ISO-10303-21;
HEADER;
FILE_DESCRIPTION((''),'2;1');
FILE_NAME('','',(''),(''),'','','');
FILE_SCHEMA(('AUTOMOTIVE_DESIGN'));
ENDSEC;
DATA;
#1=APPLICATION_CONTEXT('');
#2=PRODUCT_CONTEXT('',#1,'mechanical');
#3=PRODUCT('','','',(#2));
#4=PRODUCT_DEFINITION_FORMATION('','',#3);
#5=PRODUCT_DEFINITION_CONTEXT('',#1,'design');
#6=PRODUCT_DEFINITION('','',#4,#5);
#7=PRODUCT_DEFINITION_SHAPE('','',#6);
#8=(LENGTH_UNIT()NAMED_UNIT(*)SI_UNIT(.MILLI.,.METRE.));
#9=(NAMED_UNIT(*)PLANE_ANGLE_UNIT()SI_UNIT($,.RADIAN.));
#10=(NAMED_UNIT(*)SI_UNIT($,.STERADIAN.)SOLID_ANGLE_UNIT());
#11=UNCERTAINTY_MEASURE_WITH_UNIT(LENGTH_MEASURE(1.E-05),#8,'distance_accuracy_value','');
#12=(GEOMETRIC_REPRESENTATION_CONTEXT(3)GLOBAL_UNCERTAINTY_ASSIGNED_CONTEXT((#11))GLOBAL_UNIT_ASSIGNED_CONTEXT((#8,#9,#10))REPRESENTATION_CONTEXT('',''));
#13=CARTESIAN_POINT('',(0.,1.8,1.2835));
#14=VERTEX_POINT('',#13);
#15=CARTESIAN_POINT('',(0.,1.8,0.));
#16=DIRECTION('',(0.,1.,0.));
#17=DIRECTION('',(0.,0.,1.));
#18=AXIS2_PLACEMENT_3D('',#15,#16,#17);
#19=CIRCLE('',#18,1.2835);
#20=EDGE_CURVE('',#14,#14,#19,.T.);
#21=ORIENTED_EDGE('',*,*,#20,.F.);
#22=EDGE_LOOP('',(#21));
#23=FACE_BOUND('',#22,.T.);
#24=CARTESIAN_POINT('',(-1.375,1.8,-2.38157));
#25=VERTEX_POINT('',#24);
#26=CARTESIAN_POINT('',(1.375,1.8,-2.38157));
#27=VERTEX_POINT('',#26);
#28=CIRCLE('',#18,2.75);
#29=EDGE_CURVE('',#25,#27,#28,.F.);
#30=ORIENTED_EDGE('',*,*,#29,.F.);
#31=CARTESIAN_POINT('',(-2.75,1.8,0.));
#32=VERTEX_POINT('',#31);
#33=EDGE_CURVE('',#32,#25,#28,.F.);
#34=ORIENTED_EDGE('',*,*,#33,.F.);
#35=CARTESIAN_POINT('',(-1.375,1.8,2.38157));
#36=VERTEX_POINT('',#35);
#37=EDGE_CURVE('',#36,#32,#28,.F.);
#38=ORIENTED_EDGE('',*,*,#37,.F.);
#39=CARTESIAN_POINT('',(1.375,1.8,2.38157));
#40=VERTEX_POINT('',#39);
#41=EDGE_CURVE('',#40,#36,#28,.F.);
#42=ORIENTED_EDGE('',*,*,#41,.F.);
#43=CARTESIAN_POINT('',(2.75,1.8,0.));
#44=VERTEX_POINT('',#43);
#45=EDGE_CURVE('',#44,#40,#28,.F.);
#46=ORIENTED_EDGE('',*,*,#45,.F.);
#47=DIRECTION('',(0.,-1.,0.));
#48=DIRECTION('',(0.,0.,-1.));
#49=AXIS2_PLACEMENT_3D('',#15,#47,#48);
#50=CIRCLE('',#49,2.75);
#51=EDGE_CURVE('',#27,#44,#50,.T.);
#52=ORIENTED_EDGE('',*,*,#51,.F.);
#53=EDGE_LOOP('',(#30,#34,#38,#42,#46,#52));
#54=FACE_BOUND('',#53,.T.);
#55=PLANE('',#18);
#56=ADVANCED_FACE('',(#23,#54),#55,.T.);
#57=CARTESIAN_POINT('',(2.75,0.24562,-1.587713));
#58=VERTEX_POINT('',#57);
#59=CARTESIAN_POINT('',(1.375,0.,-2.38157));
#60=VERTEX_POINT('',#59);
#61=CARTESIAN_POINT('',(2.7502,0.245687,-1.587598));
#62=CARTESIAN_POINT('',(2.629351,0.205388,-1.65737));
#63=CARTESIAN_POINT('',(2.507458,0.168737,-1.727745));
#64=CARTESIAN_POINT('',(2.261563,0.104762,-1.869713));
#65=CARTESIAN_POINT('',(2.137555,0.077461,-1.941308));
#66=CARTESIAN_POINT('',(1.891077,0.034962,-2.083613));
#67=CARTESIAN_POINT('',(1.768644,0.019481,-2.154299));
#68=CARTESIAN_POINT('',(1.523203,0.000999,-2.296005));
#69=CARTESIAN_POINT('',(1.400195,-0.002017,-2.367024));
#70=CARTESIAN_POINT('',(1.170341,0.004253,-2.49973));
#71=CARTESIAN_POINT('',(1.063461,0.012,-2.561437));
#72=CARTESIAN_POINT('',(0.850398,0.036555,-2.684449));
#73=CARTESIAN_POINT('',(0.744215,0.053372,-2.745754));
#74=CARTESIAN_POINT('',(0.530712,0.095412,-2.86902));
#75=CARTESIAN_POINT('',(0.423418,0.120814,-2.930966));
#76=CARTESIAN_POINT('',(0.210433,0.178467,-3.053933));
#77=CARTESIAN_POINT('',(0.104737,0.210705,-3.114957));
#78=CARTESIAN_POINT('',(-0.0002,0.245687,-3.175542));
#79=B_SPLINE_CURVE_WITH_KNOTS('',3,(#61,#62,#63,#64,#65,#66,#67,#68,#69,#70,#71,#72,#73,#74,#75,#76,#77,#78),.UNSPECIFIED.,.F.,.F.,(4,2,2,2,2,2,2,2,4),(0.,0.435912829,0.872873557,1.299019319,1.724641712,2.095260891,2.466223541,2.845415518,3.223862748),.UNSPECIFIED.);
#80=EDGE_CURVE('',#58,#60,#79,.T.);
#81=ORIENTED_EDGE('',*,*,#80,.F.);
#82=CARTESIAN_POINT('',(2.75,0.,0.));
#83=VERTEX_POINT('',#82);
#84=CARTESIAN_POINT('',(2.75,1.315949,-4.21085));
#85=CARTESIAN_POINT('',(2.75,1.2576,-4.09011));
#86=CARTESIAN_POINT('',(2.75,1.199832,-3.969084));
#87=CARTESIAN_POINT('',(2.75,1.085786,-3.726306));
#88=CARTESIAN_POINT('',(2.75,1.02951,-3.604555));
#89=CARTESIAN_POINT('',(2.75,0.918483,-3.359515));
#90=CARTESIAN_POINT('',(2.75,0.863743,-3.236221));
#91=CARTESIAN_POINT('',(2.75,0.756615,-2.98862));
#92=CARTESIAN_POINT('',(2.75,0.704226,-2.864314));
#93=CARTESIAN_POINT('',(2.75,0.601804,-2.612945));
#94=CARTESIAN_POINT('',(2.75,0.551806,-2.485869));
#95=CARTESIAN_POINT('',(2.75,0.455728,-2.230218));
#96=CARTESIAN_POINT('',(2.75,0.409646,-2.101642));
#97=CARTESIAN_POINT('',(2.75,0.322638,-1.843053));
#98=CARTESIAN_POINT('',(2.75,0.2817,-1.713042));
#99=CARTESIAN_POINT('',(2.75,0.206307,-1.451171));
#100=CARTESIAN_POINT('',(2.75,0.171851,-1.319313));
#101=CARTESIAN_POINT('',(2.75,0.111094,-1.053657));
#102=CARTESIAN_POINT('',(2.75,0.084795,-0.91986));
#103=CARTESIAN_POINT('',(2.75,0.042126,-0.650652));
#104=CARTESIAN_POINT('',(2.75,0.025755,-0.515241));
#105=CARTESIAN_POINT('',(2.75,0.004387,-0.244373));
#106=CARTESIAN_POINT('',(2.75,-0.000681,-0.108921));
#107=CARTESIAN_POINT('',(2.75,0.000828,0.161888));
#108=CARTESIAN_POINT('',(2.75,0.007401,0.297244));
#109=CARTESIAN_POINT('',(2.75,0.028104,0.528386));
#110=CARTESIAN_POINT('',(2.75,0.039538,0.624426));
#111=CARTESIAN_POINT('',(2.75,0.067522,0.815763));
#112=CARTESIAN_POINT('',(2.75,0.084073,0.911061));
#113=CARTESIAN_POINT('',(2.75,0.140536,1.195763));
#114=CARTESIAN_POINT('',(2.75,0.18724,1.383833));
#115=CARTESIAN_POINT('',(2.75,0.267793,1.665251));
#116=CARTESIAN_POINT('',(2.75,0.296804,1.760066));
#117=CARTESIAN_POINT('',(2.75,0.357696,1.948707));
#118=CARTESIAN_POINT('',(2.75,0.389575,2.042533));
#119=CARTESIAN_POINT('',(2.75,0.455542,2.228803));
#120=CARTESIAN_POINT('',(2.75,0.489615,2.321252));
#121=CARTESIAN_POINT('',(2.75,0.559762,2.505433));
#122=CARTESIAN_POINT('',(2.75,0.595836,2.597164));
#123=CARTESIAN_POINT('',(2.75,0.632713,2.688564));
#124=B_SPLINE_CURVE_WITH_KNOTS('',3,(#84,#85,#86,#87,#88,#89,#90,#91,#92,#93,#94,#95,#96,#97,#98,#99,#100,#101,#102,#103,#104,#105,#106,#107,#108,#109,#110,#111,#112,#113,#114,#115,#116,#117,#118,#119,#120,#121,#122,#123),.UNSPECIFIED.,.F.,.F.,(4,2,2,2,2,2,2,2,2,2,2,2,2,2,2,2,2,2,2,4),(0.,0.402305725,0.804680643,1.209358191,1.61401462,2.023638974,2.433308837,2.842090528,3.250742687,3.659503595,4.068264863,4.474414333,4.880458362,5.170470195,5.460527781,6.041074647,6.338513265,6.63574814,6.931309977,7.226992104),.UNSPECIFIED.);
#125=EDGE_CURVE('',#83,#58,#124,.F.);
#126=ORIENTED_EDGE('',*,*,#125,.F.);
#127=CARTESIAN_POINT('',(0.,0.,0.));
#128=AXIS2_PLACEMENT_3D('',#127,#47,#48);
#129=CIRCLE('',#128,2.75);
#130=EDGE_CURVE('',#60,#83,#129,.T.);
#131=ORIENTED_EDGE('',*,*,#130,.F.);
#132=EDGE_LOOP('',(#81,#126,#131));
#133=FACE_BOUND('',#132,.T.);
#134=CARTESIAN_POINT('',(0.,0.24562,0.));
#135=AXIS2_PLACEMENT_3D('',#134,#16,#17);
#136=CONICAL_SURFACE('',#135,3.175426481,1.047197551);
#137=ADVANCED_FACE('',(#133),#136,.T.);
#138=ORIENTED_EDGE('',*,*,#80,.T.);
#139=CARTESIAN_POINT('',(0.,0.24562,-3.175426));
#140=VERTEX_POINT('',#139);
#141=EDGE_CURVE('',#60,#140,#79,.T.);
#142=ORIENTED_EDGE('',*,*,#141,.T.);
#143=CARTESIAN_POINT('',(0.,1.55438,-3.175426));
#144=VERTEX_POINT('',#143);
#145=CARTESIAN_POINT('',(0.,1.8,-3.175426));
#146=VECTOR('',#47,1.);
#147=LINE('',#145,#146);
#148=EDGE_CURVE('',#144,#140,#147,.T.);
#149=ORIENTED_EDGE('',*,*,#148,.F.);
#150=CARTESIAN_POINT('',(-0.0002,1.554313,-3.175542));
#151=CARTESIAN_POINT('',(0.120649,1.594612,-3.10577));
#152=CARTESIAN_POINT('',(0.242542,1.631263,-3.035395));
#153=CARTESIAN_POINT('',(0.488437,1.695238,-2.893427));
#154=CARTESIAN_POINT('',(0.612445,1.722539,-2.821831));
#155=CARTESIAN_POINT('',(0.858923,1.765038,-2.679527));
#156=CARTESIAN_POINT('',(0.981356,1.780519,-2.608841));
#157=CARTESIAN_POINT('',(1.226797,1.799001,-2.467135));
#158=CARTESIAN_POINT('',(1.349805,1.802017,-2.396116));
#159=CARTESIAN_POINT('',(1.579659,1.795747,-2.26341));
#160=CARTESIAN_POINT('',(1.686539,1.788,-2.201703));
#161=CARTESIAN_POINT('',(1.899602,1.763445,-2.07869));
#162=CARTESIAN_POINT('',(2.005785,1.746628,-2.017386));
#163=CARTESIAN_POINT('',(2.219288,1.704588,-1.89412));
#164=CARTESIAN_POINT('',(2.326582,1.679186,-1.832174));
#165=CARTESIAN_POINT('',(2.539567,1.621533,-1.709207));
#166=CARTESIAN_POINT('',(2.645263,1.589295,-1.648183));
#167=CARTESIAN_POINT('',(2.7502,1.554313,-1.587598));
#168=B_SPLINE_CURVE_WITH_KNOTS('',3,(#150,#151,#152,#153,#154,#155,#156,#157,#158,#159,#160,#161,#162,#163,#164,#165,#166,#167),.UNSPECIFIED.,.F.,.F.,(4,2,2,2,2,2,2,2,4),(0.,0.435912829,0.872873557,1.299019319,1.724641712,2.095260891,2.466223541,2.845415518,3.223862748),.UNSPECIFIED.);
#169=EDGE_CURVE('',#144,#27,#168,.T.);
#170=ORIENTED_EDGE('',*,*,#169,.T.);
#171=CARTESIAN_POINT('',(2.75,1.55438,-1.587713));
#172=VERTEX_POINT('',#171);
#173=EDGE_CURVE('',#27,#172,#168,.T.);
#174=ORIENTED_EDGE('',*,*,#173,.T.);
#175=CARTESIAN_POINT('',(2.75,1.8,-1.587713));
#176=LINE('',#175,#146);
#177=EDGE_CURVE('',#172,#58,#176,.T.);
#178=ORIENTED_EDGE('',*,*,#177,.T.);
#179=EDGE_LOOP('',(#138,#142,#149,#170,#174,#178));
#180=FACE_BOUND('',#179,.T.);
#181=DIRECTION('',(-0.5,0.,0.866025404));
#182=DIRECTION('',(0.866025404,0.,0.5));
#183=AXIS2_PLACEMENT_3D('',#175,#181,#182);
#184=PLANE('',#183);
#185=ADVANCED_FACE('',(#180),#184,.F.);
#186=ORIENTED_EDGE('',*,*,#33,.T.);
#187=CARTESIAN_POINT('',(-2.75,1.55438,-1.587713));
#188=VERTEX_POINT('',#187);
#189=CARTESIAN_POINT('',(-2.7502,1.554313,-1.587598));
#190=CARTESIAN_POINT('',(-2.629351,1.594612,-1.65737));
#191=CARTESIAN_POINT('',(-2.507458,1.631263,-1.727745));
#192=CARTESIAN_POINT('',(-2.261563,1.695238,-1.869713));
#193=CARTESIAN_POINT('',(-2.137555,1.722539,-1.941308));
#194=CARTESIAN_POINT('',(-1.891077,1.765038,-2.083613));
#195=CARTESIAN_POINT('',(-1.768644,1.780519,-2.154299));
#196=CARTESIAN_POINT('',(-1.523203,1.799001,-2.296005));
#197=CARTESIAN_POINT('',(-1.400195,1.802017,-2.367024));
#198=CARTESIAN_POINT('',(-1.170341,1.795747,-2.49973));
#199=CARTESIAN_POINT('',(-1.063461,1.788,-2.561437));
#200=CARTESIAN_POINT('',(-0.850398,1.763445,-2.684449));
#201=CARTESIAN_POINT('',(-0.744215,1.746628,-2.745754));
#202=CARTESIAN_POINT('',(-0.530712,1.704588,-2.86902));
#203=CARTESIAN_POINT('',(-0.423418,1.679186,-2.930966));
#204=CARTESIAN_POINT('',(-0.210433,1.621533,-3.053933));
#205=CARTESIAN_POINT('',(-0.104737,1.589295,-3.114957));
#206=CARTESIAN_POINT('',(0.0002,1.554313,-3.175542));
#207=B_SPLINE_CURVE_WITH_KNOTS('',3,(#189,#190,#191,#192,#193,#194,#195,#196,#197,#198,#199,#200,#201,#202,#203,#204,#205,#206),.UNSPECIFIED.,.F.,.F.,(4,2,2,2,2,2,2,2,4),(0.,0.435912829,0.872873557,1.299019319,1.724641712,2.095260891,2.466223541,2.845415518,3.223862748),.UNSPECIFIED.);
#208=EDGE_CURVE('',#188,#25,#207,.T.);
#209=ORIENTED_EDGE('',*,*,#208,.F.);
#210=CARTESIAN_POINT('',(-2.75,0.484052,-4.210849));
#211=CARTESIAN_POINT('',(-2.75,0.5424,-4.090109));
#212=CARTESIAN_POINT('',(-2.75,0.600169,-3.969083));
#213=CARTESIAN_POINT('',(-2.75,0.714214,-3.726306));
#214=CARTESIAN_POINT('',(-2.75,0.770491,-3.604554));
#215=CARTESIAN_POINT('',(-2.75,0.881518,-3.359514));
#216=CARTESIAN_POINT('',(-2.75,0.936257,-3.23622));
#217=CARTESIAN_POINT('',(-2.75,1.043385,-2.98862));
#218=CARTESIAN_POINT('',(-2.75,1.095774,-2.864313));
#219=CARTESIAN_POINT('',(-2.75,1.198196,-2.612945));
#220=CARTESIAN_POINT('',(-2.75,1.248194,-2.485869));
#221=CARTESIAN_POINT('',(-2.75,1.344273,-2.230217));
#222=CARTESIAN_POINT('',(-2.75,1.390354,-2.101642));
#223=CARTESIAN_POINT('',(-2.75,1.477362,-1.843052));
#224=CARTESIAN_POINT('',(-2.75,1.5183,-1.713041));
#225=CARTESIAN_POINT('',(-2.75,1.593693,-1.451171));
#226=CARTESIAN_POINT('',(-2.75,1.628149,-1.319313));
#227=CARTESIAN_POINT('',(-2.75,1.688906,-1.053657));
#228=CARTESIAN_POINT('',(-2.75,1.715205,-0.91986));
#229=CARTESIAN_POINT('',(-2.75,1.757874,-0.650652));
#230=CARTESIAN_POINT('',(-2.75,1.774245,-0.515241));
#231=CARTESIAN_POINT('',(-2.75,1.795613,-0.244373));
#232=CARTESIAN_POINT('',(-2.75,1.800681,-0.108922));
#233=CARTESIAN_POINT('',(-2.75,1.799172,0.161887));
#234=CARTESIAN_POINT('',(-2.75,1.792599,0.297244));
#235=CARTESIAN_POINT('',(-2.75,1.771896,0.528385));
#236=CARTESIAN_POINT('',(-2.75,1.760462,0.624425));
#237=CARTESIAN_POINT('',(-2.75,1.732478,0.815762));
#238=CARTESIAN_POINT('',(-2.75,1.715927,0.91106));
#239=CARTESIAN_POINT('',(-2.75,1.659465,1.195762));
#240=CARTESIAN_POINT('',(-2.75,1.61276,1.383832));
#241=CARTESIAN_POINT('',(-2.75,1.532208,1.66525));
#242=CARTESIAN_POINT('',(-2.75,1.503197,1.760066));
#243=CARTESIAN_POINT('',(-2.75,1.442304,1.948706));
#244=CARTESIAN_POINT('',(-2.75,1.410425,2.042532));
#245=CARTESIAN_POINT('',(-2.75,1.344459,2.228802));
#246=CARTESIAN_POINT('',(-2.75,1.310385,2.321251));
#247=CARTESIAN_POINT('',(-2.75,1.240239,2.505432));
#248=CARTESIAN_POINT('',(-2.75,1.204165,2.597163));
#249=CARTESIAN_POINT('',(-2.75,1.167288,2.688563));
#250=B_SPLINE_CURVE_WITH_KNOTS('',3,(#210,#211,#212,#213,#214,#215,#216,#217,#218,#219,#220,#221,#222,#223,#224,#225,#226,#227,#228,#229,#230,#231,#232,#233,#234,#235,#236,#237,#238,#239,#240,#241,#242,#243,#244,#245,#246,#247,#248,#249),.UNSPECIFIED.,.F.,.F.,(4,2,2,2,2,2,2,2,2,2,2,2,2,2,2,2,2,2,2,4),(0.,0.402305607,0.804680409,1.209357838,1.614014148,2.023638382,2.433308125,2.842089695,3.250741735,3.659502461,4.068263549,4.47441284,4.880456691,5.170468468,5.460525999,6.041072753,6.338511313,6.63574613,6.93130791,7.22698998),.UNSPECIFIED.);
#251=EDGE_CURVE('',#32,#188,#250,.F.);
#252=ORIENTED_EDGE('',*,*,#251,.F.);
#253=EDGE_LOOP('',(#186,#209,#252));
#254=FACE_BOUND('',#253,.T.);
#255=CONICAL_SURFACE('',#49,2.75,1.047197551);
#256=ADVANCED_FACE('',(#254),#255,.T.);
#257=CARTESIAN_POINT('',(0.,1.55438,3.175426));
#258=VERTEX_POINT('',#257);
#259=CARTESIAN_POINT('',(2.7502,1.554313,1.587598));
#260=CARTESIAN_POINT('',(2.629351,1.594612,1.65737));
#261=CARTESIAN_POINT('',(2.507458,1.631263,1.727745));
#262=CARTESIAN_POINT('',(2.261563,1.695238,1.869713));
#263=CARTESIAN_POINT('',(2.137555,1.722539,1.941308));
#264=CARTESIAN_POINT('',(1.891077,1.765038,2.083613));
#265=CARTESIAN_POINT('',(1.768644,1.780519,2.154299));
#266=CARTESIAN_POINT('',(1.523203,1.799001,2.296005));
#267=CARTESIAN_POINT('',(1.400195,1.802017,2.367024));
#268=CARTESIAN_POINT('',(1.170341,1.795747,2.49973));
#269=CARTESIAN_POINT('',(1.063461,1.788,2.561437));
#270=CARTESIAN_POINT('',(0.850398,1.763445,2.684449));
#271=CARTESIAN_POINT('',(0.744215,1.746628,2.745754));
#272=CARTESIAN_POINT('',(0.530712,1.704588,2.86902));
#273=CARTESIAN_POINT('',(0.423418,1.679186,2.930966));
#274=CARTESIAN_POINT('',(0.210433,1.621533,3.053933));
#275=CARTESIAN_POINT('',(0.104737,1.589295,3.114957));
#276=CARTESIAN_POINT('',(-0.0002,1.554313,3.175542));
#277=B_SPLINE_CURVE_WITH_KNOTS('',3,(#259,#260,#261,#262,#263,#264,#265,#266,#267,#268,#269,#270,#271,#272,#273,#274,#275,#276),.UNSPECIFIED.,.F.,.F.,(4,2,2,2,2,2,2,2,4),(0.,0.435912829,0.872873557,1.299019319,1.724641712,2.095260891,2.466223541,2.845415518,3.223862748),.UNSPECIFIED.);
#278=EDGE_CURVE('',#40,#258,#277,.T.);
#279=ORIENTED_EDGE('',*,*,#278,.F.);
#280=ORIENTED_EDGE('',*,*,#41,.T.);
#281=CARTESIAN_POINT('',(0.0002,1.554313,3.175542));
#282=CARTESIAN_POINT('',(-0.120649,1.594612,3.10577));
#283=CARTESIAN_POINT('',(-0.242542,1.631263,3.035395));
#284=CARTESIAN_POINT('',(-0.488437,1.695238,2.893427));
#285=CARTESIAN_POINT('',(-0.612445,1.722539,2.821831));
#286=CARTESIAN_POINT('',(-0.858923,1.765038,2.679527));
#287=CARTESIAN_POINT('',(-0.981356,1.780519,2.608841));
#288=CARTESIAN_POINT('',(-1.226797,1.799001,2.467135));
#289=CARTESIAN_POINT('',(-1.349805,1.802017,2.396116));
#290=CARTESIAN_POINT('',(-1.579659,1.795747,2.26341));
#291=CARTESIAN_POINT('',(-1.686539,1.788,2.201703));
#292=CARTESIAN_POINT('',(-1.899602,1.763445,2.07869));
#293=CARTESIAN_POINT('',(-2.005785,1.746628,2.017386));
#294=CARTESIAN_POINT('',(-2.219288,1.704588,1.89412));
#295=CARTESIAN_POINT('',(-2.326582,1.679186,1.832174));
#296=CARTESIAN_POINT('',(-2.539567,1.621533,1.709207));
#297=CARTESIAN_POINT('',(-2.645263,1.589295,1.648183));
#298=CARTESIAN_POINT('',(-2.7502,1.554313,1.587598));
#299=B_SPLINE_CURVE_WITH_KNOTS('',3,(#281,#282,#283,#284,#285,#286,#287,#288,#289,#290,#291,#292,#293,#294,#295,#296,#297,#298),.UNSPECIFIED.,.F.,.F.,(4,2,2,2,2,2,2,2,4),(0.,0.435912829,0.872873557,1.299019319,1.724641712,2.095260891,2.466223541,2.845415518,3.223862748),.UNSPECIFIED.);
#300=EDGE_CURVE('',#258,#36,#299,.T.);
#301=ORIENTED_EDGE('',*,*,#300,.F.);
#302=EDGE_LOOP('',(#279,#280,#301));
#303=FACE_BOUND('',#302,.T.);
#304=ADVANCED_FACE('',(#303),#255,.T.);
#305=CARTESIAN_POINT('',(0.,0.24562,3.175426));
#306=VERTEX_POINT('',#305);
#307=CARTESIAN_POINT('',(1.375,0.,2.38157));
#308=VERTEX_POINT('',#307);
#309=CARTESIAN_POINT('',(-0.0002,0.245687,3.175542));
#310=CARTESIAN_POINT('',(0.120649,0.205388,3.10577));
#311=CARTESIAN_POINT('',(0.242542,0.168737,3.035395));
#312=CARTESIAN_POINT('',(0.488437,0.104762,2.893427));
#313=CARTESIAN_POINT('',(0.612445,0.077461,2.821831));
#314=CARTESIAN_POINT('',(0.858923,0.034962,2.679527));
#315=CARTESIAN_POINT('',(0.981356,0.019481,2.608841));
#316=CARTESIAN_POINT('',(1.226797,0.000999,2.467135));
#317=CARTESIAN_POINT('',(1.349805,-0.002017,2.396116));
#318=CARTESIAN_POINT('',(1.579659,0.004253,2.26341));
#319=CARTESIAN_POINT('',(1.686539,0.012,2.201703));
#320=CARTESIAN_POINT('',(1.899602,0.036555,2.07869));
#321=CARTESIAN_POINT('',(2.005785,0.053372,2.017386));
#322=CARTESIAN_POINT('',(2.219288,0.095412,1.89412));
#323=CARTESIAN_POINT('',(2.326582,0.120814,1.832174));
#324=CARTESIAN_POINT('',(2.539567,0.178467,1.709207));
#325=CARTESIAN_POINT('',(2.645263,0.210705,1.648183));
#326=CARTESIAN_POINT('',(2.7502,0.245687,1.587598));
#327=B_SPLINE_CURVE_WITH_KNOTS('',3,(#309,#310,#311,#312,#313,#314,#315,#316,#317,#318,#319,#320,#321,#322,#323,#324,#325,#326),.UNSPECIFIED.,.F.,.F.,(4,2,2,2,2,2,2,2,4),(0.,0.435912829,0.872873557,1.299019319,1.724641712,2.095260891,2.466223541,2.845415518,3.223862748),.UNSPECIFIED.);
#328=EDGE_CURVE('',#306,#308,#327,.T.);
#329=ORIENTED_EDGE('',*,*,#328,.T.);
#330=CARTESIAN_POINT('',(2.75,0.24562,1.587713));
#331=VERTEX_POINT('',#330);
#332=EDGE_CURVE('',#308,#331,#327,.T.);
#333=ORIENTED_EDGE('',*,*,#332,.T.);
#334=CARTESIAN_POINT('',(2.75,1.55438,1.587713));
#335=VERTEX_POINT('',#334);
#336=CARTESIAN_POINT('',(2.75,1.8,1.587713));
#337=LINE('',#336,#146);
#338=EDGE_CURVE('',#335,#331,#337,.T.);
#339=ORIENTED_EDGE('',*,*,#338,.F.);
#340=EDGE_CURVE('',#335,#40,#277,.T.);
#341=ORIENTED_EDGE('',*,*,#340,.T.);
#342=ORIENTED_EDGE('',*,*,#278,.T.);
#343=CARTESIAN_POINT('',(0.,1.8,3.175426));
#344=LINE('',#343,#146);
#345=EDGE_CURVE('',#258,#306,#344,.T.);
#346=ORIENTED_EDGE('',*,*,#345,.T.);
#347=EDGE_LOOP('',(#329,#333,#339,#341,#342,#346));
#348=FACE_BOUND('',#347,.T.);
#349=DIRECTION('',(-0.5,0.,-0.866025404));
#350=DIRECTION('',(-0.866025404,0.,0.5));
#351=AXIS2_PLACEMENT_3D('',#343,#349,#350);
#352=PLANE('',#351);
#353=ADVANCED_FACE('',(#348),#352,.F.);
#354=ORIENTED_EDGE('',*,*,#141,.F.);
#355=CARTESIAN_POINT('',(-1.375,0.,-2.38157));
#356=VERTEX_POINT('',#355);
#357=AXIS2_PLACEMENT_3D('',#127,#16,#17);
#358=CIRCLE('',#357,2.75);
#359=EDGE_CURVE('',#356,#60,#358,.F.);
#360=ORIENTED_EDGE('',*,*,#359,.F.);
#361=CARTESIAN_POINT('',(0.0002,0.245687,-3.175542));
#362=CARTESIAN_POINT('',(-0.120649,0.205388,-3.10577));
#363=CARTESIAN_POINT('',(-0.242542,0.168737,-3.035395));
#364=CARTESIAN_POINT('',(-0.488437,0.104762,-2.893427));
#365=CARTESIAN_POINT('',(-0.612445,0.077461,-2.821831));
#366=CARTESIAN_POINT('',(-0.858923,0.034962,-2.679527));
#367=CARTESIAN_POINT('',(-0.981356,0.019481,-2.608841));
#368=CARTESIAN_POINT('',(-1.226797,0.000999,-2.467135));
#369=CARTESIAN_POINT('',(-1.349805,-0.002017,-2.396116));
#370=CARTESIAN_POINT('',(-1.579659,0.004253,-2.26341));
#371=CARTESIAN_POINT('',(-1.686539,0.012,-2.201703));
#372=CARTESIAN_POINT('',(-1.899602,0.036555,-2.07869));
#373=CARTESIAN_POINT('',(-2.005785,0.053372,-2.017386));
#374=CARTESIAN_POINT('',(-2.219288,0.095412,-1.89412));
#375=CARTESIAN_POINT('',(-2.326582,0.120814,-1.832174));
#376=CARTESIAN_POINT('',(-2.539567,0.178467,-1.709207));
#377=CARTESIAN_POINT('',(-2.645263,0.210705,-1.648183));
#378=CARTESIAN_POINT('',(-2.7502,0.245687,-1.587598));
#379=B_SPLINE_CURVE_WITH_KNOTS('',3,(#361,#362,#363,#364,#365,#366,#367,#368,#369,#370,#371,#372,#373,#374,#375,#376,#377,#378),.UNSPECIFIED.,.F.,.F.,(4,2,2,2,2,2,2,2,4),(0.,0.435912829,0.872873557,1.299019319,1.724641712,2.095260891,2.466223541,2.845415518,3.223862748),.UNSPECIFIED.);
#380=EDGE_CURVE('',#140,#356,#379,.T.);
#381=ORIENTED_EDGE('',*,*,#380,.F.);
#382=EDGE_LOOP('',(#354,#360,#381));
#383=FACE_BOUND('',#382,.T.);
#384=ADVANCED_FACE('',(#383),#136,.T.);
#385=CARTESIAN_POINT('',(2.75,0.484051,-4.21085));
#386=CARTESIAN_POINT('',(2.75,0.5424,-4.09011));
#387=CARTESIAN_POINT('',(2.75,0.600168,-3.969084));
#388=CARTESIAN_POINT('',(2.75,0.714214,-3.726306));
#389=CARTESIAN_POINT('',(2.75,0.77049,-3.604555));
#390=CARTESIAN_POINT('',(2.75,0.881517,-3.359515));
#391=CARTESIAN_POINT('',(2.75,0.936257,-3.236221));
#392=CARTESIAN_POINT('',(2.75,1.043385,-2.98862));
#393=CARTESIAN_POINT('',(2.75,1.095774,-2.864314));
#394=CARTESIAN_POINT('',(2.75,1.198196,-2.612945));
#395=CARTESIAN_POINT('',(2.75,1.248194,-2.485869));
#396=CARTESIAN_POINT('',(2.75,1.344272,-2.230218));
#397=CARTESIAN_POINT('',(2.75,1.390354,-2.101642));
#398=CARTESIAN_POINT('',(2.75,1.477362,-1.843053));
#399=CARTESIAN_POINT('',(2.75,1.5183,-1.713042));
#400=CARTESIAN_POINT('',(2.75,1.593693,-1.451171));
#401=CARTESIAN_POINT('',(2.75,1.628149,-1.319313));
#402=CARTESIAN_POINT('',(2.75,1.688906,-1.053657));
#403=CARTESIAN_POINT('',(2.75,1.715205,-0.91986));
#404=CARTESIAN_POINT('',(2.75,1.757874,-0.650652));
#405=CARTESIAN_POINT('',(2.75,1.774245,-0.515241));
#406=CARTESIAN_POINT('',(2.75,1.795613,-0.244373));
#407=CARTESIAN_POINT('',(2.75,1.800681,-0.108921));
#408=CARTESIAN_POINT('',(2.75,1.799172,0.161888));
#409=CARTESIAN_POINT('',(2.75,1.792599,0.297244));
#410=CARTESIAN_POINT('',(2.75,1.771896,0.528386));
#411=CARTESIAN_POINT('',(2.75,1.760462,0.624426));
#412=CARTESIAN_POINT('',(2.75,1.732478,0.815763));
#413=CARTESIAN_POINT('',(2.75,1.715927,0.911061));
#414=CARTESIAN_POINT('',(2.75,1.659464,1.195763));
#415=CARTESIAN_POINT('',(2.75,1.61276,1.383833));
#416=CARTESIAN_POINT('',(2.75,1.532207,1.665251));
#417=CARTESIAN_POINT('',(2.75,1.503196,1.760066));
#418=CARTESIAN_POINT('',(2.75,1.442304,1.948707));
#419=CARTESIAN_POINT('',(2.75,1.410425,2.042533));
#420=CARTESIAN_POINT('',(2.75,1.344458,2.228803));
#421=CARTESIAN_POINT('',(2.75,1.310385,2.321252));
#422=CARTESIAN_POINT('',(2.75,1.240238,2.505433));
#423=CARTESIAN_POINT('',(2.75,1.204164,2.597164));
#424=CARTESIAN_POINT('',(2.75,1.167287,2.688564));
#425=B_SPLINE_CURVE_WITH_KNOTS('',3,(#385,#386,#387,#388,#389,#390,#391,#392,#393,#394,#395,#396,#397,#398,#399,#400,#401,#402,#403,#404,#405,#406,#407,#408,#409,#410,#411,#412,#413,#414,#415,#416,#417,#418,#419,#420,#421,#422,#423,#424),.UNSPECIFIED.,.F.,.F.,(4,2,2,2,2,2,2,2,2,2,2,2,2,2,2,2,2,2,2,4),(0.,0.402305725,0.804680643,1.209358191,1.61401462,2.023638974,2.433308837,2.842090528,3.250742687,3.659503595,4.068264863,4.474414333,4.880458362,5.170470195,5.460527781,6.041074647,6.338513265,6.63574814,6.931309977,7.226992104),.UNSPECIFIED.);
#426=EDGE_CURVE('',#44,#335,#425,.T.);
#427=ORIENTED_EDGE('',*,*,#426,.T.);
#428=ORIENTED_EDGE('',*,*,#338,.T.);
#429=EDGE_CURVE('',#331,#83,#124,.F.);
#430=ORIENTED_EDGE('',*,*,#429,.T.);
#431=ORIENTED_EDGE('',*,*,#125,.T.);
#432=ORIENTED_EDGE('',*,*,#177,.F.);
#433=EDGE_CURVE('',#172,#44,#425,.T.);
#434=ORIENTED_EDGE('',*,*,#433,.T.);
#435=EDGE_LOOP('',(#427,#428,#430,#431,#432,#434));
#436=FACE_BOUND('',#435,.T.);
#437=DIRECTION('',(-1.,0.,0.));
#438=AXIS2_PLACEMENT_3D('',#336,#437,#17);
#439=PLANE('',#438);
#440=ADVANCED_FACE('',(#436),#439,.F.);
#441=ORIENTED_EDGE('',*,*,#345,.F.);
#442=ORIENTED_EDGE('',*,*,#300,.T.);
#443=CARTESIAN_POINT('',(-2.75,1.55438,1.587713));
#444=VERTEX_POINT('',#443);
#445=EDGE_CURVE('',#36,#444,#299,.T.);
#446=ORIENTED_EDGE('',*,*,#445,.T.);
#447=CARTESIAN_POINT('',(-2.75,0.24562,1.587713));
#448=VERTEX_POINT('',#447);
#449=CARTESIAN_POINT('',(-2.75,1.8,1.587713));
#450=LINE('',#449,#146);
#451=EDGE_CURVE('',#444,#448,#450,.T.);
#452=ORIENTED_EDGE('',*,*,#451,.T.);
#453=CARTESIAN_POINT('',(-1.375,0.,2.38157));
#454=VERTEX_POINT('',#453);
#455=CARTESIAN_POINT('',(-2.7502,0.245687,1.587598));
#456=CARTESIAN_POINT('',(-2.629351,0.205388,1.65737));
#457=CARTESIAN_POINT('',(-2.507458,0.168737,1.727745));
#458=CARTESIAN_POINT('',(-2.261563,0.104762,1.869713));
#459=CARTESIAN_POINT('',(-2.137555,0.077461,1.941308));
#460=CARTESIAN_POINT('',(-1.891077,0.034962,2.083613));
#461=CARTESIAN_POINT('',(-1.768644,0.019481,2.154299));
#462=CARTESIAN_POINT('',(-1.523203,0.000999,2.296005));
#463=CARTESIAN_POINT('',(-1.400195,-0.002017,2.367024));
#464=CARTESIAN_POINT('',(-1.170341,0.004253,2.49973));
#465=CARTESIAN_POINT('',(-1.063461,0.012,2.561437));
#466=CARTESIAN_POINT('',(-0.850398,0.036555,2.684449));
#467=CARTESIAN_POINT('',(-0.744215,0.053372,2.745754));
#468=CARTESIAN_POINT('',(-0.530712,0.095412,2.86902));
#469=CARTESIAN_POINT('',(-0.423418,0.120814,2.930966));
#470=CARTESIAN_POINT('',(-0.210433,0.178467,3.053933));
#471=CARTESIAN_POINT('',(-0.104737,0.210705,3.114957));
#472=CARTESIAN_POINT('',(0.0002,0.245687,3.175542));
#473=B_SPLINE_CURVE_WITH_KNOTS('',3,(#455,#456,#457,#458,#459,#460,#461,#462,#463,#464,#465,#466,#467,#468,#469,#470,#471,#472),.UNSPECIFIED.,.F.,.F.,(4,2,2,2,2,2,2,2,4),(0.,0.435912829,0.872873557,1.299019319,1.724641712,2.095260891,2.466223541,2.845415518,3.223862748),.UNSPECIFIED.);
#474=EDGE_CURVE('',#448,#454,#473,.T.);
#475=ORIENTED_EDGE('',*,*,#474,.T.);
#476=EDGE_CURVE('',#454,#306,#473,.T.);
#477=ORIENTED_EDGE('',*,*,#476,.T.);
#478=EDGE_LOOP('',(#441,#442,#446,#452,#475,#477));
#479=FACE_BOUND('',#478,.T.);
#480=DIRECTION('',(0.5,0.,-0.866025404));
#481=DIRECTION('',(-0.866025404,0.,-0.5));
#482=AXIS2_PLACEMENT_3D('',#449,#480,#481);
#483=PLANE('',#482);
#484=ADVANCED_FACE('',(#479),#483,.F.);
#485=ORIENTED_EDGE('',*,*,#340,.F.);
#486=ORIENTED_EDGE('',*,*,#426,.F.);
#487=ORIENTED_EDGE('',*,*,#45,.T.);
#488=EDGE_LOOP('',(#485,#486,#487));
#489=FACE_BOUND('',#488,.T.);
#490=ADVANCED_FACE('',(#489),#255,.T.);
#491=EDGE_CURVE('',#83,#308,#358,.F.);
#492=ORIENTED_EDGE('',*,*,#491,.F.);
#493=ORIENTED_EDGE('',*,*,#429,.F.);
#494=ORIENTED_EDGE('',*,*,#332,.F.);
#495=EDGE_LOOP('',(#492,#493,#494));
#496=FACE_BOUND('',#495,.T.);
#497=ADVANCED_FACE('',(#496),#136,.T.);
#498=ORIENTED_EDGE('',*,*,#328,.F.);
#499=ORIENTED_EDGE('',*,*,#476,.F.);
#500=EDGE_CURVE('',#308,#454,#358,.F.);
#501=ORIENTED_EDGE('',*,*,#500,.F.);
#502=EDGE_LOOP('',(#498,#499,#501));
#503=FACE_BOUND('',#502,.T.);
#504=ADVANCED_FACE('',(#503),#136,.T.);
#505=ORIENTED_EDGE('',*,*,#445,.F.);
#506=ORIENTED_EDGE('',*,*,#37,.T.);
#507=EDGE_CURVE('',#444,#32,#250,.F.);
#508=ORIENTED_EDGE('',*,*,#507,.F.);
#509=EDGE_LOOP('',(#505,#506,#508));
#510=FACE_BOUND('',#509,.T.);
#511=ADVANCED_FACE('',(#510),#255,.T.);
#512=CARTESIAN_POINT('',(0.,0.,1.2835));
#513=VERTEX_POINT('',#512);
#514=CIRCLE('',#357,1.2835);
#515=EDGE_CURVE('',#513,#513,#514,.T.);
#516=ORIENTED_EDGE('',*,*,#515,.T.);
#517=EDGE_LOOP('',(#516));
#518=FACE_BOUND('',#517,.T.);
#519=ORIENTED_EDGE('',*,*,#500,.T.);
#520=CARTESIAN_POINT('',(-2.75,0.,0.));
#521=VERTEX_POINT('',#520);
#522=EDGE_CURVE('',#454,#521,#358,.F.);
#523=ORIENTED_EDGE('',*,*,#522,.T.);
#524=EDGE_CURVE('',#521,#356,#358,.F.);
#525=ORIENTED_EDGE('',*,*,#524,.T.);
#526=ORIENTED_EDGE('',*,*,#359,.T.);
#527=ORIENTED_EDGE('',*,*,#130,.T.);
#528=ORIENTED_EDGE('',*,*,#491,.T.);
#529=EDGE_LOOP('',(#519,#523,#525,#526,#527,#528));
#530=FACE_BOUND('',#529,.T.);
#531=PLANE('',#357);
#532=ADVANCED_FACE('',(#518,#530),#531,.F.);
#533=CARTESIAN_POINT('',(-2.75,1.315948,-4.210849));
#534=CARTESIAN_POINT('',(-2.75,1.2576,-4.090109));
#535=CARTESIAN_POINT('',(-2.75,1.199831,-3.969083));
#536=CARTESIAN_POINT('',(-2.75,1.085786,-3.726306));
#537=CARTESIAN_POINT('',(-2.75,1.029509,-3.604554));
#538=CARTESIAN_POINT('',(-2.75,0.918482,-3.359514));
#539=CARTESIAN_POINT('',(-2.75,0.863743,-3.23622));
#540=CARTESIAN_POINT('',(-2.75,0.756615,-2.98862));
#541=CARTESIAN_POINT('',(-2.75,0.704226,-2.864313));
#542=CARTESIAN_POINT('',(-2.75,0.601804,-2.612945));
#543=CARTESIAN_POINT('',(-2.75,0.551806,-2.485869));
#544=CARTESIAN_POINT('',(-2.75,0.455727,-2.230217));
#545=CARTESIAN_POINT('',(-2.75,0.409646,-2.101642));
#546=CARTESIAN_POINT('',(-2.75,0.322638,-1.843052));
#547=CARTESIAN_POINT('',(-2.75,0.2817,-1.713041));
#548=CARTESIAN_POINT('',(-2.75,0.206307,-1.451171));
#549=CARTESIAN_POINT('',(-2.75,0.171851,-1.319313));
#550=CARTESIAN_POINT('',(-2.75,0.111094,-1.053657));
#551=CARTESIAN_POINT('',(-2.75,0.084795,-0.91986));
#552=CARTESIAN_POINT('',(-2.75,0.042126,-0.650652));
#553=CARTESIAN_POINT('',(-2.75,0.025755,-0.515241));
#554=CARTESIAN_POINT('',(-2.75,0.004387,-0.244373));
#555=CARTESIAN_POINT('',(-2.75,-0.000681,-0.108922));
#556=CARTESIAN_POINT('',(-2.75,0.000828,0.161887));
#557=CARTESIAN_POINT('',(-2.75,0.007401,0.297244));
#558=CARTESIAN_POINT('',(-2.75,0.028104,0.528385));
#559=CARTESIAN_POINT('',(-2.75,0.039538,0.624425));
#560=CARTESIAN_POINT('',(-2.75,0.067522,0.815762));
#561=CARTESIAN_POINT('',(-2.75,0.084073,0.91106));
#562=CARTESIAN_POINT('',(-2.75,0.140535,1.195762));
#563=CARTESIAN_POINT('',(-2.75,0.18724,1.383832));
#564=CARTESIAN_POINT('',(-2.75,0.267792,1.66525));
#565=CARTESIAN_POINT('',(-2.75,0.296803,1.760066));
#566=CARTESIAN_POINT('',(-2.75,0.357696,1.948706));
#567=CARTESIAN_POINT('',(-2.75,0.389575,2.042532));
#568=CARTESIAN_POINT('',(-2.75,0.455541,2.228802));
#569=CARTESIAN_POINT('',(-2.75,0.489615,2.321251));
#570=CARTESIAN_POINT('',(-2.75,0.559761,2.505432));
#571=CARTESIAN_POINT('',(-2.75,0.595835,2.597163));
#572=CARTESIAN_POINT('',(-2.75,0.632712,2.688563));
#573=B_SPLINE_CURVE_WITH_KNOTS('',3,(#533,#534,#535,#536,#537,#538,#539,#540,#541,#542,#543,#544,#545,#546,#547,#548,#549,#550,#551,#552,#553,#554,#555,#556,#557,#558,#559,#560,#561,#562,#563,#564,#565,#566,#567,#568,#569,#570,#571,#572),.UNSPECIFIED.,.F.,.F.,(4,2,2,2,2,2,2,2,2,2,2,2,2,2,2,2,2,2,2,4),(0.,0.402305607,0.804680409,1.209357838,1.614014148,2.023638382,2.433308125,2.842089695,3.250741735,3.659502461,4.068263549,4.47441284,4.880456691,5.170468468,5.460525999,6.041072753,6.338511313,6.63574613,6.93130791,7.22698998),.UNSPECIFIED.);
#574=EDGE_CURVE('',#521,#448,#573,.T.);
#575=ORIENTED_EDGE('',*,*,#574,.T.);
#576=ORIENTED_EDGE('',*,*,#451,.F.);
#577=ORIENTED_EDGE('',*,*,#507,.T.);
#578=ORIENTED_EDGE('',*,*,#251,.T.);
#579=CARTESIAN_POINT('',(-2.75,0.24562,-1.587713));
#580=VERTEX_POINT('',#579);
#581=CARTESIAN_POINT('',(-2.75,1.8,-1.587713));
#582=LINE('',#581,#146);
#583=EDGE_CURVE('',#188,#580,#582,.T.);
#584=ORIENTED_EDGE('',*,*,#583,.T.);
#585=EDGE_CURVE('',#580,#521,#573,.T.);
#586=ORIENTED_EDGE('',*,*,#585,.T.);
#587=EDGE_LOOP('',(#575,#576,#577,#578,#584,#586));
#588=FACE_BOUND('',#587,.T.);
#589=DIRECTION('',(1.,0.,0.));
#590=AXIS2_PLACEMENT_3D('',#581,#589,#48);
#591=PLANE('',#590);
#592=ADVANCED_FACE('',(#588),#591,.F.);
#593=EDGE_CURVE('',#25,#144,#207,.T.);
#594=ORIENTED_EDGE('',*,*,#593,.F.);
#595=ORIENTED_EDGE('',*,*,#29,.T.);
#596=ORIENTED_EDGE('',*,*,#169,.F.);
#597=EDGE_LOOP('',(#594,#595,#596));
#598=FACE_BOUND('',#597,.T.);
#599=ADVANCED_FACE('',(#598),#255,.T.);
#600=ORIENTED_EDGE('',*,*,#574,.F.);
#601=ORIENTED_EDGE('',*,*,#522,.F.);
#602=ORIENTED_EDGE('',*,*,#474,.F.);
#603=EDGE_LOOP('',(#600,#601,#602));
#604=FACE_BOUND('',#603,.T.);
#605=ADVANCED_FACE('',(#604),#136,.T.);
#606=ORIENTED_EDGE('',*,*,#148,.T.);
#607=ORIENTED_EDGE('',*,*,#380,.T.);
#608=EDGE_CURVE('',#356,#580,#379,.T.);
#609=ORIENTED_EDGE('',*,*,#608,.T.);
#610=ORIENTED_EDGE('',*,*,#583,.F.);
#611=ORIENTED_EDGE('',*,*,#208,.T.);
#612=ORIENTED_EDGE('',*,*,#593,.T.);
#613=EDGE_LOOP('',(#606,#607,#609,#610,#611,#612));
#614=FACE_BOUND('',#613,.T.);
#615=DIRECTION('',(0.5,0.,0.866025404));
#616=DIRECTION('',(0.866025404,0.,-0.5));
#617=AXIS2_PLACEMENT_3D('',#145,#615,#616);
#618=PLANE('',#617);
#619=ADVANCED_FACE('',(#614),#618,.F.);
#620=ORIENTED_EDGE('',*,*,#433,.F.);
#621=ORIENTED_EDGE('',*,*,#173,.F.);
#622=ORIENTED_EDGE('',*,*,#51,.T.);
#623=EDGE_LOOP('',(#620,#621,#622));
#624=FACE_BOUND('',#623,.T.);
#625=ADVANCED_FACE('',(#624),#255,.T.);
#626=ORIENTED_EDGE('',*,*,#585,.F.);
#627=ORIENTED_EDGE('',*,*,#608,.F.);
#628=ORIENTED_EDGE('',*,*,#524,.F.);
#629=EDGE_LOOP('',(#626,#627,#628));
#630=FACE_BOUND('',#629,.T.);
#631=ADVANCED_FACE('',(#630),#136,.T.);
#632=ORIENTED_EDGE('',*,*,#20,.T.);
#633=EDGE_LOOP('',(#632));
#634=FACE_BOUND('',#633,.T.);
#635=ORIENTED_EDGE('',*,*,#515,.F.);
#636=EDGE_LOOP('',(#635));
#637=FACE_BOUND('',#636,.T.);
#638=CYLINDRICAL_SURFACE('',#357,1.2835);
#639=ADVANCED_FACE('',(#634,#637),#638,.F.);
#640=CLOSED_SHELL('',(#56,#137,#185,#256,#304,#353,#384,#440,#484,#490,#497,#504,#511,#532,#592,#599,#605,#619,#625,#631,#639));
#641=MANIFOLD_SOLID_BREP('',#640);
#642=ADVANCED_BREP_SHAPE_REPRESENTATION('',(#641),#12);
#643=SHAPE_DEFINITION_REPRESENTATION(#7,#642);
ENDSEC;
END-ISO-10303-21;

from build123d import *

# Parameters (mm, degrees)
EXTRUDE_1_DEPTH     = 1.8
SKETCH_4_R          = 1.2835
CUT_EXTRUDE_1_DEPTH = 2.8


with BuildPart() as part:
    # 草图1 → 凸台-拉伸1 (new body)
    with BuildSketch(Plane(origin=(0, 0, 0), x_dir=(1, 0, 0), z_dir=(0, 1, 0))):
        Polygon((0, 3.175426481), (-2.75, 1.58771324), (-2.75, -1.58771324), (0, -3.175426481), (2.75, -1.58771324), (2.75, 1.58771324), align=None)
    extrude(amount=EXTRUDE_1_DEPTH)

    # 草图4 → 切除-拉伸1 (cut, through all)
    with BuildSketch(Plane(origin=(0, 1.8, 0), x_dir=(1, 0, 0), z_dir=(0, 1, 0))):
        Circle(SKETCH_4_R)
    extrude(amount=-CUT_EXTRUDE_1_DEPTH, mode=Mode.SUBTRACT)

    # 草图2 → 切除-旋转1 (revolve, cut)
    with BuildSketch(Plane(origin=(0, 0, 0), x_dir=(0, 0, -1), z_dir=(1, 0, 0))):
        Polygon((3.175426481, 1.8), (3.175426481, 1.554379907), (2.75, 1.8), align=None)
    revolve(axis=Axis((0, 0, 0), (0, 1, 0)), mode=Mode.SUBTRACT)

    # 草图3 → 切除-旋转2 (revolve, cut)
    with BuildSketch(Plane(origin=(0, 0, 0), x_dir=(0, 0, -1), z_dir=(1, 0, 0))):
        Polygon((3.175426481, 0), (3.175426481, 0.245620093), (2.75, 0), align=None)
    revolve(axis=Axis((0, 0, 0), (0, 1, 0)), mode=Mode.SUBTRACT)


solid = part.part
